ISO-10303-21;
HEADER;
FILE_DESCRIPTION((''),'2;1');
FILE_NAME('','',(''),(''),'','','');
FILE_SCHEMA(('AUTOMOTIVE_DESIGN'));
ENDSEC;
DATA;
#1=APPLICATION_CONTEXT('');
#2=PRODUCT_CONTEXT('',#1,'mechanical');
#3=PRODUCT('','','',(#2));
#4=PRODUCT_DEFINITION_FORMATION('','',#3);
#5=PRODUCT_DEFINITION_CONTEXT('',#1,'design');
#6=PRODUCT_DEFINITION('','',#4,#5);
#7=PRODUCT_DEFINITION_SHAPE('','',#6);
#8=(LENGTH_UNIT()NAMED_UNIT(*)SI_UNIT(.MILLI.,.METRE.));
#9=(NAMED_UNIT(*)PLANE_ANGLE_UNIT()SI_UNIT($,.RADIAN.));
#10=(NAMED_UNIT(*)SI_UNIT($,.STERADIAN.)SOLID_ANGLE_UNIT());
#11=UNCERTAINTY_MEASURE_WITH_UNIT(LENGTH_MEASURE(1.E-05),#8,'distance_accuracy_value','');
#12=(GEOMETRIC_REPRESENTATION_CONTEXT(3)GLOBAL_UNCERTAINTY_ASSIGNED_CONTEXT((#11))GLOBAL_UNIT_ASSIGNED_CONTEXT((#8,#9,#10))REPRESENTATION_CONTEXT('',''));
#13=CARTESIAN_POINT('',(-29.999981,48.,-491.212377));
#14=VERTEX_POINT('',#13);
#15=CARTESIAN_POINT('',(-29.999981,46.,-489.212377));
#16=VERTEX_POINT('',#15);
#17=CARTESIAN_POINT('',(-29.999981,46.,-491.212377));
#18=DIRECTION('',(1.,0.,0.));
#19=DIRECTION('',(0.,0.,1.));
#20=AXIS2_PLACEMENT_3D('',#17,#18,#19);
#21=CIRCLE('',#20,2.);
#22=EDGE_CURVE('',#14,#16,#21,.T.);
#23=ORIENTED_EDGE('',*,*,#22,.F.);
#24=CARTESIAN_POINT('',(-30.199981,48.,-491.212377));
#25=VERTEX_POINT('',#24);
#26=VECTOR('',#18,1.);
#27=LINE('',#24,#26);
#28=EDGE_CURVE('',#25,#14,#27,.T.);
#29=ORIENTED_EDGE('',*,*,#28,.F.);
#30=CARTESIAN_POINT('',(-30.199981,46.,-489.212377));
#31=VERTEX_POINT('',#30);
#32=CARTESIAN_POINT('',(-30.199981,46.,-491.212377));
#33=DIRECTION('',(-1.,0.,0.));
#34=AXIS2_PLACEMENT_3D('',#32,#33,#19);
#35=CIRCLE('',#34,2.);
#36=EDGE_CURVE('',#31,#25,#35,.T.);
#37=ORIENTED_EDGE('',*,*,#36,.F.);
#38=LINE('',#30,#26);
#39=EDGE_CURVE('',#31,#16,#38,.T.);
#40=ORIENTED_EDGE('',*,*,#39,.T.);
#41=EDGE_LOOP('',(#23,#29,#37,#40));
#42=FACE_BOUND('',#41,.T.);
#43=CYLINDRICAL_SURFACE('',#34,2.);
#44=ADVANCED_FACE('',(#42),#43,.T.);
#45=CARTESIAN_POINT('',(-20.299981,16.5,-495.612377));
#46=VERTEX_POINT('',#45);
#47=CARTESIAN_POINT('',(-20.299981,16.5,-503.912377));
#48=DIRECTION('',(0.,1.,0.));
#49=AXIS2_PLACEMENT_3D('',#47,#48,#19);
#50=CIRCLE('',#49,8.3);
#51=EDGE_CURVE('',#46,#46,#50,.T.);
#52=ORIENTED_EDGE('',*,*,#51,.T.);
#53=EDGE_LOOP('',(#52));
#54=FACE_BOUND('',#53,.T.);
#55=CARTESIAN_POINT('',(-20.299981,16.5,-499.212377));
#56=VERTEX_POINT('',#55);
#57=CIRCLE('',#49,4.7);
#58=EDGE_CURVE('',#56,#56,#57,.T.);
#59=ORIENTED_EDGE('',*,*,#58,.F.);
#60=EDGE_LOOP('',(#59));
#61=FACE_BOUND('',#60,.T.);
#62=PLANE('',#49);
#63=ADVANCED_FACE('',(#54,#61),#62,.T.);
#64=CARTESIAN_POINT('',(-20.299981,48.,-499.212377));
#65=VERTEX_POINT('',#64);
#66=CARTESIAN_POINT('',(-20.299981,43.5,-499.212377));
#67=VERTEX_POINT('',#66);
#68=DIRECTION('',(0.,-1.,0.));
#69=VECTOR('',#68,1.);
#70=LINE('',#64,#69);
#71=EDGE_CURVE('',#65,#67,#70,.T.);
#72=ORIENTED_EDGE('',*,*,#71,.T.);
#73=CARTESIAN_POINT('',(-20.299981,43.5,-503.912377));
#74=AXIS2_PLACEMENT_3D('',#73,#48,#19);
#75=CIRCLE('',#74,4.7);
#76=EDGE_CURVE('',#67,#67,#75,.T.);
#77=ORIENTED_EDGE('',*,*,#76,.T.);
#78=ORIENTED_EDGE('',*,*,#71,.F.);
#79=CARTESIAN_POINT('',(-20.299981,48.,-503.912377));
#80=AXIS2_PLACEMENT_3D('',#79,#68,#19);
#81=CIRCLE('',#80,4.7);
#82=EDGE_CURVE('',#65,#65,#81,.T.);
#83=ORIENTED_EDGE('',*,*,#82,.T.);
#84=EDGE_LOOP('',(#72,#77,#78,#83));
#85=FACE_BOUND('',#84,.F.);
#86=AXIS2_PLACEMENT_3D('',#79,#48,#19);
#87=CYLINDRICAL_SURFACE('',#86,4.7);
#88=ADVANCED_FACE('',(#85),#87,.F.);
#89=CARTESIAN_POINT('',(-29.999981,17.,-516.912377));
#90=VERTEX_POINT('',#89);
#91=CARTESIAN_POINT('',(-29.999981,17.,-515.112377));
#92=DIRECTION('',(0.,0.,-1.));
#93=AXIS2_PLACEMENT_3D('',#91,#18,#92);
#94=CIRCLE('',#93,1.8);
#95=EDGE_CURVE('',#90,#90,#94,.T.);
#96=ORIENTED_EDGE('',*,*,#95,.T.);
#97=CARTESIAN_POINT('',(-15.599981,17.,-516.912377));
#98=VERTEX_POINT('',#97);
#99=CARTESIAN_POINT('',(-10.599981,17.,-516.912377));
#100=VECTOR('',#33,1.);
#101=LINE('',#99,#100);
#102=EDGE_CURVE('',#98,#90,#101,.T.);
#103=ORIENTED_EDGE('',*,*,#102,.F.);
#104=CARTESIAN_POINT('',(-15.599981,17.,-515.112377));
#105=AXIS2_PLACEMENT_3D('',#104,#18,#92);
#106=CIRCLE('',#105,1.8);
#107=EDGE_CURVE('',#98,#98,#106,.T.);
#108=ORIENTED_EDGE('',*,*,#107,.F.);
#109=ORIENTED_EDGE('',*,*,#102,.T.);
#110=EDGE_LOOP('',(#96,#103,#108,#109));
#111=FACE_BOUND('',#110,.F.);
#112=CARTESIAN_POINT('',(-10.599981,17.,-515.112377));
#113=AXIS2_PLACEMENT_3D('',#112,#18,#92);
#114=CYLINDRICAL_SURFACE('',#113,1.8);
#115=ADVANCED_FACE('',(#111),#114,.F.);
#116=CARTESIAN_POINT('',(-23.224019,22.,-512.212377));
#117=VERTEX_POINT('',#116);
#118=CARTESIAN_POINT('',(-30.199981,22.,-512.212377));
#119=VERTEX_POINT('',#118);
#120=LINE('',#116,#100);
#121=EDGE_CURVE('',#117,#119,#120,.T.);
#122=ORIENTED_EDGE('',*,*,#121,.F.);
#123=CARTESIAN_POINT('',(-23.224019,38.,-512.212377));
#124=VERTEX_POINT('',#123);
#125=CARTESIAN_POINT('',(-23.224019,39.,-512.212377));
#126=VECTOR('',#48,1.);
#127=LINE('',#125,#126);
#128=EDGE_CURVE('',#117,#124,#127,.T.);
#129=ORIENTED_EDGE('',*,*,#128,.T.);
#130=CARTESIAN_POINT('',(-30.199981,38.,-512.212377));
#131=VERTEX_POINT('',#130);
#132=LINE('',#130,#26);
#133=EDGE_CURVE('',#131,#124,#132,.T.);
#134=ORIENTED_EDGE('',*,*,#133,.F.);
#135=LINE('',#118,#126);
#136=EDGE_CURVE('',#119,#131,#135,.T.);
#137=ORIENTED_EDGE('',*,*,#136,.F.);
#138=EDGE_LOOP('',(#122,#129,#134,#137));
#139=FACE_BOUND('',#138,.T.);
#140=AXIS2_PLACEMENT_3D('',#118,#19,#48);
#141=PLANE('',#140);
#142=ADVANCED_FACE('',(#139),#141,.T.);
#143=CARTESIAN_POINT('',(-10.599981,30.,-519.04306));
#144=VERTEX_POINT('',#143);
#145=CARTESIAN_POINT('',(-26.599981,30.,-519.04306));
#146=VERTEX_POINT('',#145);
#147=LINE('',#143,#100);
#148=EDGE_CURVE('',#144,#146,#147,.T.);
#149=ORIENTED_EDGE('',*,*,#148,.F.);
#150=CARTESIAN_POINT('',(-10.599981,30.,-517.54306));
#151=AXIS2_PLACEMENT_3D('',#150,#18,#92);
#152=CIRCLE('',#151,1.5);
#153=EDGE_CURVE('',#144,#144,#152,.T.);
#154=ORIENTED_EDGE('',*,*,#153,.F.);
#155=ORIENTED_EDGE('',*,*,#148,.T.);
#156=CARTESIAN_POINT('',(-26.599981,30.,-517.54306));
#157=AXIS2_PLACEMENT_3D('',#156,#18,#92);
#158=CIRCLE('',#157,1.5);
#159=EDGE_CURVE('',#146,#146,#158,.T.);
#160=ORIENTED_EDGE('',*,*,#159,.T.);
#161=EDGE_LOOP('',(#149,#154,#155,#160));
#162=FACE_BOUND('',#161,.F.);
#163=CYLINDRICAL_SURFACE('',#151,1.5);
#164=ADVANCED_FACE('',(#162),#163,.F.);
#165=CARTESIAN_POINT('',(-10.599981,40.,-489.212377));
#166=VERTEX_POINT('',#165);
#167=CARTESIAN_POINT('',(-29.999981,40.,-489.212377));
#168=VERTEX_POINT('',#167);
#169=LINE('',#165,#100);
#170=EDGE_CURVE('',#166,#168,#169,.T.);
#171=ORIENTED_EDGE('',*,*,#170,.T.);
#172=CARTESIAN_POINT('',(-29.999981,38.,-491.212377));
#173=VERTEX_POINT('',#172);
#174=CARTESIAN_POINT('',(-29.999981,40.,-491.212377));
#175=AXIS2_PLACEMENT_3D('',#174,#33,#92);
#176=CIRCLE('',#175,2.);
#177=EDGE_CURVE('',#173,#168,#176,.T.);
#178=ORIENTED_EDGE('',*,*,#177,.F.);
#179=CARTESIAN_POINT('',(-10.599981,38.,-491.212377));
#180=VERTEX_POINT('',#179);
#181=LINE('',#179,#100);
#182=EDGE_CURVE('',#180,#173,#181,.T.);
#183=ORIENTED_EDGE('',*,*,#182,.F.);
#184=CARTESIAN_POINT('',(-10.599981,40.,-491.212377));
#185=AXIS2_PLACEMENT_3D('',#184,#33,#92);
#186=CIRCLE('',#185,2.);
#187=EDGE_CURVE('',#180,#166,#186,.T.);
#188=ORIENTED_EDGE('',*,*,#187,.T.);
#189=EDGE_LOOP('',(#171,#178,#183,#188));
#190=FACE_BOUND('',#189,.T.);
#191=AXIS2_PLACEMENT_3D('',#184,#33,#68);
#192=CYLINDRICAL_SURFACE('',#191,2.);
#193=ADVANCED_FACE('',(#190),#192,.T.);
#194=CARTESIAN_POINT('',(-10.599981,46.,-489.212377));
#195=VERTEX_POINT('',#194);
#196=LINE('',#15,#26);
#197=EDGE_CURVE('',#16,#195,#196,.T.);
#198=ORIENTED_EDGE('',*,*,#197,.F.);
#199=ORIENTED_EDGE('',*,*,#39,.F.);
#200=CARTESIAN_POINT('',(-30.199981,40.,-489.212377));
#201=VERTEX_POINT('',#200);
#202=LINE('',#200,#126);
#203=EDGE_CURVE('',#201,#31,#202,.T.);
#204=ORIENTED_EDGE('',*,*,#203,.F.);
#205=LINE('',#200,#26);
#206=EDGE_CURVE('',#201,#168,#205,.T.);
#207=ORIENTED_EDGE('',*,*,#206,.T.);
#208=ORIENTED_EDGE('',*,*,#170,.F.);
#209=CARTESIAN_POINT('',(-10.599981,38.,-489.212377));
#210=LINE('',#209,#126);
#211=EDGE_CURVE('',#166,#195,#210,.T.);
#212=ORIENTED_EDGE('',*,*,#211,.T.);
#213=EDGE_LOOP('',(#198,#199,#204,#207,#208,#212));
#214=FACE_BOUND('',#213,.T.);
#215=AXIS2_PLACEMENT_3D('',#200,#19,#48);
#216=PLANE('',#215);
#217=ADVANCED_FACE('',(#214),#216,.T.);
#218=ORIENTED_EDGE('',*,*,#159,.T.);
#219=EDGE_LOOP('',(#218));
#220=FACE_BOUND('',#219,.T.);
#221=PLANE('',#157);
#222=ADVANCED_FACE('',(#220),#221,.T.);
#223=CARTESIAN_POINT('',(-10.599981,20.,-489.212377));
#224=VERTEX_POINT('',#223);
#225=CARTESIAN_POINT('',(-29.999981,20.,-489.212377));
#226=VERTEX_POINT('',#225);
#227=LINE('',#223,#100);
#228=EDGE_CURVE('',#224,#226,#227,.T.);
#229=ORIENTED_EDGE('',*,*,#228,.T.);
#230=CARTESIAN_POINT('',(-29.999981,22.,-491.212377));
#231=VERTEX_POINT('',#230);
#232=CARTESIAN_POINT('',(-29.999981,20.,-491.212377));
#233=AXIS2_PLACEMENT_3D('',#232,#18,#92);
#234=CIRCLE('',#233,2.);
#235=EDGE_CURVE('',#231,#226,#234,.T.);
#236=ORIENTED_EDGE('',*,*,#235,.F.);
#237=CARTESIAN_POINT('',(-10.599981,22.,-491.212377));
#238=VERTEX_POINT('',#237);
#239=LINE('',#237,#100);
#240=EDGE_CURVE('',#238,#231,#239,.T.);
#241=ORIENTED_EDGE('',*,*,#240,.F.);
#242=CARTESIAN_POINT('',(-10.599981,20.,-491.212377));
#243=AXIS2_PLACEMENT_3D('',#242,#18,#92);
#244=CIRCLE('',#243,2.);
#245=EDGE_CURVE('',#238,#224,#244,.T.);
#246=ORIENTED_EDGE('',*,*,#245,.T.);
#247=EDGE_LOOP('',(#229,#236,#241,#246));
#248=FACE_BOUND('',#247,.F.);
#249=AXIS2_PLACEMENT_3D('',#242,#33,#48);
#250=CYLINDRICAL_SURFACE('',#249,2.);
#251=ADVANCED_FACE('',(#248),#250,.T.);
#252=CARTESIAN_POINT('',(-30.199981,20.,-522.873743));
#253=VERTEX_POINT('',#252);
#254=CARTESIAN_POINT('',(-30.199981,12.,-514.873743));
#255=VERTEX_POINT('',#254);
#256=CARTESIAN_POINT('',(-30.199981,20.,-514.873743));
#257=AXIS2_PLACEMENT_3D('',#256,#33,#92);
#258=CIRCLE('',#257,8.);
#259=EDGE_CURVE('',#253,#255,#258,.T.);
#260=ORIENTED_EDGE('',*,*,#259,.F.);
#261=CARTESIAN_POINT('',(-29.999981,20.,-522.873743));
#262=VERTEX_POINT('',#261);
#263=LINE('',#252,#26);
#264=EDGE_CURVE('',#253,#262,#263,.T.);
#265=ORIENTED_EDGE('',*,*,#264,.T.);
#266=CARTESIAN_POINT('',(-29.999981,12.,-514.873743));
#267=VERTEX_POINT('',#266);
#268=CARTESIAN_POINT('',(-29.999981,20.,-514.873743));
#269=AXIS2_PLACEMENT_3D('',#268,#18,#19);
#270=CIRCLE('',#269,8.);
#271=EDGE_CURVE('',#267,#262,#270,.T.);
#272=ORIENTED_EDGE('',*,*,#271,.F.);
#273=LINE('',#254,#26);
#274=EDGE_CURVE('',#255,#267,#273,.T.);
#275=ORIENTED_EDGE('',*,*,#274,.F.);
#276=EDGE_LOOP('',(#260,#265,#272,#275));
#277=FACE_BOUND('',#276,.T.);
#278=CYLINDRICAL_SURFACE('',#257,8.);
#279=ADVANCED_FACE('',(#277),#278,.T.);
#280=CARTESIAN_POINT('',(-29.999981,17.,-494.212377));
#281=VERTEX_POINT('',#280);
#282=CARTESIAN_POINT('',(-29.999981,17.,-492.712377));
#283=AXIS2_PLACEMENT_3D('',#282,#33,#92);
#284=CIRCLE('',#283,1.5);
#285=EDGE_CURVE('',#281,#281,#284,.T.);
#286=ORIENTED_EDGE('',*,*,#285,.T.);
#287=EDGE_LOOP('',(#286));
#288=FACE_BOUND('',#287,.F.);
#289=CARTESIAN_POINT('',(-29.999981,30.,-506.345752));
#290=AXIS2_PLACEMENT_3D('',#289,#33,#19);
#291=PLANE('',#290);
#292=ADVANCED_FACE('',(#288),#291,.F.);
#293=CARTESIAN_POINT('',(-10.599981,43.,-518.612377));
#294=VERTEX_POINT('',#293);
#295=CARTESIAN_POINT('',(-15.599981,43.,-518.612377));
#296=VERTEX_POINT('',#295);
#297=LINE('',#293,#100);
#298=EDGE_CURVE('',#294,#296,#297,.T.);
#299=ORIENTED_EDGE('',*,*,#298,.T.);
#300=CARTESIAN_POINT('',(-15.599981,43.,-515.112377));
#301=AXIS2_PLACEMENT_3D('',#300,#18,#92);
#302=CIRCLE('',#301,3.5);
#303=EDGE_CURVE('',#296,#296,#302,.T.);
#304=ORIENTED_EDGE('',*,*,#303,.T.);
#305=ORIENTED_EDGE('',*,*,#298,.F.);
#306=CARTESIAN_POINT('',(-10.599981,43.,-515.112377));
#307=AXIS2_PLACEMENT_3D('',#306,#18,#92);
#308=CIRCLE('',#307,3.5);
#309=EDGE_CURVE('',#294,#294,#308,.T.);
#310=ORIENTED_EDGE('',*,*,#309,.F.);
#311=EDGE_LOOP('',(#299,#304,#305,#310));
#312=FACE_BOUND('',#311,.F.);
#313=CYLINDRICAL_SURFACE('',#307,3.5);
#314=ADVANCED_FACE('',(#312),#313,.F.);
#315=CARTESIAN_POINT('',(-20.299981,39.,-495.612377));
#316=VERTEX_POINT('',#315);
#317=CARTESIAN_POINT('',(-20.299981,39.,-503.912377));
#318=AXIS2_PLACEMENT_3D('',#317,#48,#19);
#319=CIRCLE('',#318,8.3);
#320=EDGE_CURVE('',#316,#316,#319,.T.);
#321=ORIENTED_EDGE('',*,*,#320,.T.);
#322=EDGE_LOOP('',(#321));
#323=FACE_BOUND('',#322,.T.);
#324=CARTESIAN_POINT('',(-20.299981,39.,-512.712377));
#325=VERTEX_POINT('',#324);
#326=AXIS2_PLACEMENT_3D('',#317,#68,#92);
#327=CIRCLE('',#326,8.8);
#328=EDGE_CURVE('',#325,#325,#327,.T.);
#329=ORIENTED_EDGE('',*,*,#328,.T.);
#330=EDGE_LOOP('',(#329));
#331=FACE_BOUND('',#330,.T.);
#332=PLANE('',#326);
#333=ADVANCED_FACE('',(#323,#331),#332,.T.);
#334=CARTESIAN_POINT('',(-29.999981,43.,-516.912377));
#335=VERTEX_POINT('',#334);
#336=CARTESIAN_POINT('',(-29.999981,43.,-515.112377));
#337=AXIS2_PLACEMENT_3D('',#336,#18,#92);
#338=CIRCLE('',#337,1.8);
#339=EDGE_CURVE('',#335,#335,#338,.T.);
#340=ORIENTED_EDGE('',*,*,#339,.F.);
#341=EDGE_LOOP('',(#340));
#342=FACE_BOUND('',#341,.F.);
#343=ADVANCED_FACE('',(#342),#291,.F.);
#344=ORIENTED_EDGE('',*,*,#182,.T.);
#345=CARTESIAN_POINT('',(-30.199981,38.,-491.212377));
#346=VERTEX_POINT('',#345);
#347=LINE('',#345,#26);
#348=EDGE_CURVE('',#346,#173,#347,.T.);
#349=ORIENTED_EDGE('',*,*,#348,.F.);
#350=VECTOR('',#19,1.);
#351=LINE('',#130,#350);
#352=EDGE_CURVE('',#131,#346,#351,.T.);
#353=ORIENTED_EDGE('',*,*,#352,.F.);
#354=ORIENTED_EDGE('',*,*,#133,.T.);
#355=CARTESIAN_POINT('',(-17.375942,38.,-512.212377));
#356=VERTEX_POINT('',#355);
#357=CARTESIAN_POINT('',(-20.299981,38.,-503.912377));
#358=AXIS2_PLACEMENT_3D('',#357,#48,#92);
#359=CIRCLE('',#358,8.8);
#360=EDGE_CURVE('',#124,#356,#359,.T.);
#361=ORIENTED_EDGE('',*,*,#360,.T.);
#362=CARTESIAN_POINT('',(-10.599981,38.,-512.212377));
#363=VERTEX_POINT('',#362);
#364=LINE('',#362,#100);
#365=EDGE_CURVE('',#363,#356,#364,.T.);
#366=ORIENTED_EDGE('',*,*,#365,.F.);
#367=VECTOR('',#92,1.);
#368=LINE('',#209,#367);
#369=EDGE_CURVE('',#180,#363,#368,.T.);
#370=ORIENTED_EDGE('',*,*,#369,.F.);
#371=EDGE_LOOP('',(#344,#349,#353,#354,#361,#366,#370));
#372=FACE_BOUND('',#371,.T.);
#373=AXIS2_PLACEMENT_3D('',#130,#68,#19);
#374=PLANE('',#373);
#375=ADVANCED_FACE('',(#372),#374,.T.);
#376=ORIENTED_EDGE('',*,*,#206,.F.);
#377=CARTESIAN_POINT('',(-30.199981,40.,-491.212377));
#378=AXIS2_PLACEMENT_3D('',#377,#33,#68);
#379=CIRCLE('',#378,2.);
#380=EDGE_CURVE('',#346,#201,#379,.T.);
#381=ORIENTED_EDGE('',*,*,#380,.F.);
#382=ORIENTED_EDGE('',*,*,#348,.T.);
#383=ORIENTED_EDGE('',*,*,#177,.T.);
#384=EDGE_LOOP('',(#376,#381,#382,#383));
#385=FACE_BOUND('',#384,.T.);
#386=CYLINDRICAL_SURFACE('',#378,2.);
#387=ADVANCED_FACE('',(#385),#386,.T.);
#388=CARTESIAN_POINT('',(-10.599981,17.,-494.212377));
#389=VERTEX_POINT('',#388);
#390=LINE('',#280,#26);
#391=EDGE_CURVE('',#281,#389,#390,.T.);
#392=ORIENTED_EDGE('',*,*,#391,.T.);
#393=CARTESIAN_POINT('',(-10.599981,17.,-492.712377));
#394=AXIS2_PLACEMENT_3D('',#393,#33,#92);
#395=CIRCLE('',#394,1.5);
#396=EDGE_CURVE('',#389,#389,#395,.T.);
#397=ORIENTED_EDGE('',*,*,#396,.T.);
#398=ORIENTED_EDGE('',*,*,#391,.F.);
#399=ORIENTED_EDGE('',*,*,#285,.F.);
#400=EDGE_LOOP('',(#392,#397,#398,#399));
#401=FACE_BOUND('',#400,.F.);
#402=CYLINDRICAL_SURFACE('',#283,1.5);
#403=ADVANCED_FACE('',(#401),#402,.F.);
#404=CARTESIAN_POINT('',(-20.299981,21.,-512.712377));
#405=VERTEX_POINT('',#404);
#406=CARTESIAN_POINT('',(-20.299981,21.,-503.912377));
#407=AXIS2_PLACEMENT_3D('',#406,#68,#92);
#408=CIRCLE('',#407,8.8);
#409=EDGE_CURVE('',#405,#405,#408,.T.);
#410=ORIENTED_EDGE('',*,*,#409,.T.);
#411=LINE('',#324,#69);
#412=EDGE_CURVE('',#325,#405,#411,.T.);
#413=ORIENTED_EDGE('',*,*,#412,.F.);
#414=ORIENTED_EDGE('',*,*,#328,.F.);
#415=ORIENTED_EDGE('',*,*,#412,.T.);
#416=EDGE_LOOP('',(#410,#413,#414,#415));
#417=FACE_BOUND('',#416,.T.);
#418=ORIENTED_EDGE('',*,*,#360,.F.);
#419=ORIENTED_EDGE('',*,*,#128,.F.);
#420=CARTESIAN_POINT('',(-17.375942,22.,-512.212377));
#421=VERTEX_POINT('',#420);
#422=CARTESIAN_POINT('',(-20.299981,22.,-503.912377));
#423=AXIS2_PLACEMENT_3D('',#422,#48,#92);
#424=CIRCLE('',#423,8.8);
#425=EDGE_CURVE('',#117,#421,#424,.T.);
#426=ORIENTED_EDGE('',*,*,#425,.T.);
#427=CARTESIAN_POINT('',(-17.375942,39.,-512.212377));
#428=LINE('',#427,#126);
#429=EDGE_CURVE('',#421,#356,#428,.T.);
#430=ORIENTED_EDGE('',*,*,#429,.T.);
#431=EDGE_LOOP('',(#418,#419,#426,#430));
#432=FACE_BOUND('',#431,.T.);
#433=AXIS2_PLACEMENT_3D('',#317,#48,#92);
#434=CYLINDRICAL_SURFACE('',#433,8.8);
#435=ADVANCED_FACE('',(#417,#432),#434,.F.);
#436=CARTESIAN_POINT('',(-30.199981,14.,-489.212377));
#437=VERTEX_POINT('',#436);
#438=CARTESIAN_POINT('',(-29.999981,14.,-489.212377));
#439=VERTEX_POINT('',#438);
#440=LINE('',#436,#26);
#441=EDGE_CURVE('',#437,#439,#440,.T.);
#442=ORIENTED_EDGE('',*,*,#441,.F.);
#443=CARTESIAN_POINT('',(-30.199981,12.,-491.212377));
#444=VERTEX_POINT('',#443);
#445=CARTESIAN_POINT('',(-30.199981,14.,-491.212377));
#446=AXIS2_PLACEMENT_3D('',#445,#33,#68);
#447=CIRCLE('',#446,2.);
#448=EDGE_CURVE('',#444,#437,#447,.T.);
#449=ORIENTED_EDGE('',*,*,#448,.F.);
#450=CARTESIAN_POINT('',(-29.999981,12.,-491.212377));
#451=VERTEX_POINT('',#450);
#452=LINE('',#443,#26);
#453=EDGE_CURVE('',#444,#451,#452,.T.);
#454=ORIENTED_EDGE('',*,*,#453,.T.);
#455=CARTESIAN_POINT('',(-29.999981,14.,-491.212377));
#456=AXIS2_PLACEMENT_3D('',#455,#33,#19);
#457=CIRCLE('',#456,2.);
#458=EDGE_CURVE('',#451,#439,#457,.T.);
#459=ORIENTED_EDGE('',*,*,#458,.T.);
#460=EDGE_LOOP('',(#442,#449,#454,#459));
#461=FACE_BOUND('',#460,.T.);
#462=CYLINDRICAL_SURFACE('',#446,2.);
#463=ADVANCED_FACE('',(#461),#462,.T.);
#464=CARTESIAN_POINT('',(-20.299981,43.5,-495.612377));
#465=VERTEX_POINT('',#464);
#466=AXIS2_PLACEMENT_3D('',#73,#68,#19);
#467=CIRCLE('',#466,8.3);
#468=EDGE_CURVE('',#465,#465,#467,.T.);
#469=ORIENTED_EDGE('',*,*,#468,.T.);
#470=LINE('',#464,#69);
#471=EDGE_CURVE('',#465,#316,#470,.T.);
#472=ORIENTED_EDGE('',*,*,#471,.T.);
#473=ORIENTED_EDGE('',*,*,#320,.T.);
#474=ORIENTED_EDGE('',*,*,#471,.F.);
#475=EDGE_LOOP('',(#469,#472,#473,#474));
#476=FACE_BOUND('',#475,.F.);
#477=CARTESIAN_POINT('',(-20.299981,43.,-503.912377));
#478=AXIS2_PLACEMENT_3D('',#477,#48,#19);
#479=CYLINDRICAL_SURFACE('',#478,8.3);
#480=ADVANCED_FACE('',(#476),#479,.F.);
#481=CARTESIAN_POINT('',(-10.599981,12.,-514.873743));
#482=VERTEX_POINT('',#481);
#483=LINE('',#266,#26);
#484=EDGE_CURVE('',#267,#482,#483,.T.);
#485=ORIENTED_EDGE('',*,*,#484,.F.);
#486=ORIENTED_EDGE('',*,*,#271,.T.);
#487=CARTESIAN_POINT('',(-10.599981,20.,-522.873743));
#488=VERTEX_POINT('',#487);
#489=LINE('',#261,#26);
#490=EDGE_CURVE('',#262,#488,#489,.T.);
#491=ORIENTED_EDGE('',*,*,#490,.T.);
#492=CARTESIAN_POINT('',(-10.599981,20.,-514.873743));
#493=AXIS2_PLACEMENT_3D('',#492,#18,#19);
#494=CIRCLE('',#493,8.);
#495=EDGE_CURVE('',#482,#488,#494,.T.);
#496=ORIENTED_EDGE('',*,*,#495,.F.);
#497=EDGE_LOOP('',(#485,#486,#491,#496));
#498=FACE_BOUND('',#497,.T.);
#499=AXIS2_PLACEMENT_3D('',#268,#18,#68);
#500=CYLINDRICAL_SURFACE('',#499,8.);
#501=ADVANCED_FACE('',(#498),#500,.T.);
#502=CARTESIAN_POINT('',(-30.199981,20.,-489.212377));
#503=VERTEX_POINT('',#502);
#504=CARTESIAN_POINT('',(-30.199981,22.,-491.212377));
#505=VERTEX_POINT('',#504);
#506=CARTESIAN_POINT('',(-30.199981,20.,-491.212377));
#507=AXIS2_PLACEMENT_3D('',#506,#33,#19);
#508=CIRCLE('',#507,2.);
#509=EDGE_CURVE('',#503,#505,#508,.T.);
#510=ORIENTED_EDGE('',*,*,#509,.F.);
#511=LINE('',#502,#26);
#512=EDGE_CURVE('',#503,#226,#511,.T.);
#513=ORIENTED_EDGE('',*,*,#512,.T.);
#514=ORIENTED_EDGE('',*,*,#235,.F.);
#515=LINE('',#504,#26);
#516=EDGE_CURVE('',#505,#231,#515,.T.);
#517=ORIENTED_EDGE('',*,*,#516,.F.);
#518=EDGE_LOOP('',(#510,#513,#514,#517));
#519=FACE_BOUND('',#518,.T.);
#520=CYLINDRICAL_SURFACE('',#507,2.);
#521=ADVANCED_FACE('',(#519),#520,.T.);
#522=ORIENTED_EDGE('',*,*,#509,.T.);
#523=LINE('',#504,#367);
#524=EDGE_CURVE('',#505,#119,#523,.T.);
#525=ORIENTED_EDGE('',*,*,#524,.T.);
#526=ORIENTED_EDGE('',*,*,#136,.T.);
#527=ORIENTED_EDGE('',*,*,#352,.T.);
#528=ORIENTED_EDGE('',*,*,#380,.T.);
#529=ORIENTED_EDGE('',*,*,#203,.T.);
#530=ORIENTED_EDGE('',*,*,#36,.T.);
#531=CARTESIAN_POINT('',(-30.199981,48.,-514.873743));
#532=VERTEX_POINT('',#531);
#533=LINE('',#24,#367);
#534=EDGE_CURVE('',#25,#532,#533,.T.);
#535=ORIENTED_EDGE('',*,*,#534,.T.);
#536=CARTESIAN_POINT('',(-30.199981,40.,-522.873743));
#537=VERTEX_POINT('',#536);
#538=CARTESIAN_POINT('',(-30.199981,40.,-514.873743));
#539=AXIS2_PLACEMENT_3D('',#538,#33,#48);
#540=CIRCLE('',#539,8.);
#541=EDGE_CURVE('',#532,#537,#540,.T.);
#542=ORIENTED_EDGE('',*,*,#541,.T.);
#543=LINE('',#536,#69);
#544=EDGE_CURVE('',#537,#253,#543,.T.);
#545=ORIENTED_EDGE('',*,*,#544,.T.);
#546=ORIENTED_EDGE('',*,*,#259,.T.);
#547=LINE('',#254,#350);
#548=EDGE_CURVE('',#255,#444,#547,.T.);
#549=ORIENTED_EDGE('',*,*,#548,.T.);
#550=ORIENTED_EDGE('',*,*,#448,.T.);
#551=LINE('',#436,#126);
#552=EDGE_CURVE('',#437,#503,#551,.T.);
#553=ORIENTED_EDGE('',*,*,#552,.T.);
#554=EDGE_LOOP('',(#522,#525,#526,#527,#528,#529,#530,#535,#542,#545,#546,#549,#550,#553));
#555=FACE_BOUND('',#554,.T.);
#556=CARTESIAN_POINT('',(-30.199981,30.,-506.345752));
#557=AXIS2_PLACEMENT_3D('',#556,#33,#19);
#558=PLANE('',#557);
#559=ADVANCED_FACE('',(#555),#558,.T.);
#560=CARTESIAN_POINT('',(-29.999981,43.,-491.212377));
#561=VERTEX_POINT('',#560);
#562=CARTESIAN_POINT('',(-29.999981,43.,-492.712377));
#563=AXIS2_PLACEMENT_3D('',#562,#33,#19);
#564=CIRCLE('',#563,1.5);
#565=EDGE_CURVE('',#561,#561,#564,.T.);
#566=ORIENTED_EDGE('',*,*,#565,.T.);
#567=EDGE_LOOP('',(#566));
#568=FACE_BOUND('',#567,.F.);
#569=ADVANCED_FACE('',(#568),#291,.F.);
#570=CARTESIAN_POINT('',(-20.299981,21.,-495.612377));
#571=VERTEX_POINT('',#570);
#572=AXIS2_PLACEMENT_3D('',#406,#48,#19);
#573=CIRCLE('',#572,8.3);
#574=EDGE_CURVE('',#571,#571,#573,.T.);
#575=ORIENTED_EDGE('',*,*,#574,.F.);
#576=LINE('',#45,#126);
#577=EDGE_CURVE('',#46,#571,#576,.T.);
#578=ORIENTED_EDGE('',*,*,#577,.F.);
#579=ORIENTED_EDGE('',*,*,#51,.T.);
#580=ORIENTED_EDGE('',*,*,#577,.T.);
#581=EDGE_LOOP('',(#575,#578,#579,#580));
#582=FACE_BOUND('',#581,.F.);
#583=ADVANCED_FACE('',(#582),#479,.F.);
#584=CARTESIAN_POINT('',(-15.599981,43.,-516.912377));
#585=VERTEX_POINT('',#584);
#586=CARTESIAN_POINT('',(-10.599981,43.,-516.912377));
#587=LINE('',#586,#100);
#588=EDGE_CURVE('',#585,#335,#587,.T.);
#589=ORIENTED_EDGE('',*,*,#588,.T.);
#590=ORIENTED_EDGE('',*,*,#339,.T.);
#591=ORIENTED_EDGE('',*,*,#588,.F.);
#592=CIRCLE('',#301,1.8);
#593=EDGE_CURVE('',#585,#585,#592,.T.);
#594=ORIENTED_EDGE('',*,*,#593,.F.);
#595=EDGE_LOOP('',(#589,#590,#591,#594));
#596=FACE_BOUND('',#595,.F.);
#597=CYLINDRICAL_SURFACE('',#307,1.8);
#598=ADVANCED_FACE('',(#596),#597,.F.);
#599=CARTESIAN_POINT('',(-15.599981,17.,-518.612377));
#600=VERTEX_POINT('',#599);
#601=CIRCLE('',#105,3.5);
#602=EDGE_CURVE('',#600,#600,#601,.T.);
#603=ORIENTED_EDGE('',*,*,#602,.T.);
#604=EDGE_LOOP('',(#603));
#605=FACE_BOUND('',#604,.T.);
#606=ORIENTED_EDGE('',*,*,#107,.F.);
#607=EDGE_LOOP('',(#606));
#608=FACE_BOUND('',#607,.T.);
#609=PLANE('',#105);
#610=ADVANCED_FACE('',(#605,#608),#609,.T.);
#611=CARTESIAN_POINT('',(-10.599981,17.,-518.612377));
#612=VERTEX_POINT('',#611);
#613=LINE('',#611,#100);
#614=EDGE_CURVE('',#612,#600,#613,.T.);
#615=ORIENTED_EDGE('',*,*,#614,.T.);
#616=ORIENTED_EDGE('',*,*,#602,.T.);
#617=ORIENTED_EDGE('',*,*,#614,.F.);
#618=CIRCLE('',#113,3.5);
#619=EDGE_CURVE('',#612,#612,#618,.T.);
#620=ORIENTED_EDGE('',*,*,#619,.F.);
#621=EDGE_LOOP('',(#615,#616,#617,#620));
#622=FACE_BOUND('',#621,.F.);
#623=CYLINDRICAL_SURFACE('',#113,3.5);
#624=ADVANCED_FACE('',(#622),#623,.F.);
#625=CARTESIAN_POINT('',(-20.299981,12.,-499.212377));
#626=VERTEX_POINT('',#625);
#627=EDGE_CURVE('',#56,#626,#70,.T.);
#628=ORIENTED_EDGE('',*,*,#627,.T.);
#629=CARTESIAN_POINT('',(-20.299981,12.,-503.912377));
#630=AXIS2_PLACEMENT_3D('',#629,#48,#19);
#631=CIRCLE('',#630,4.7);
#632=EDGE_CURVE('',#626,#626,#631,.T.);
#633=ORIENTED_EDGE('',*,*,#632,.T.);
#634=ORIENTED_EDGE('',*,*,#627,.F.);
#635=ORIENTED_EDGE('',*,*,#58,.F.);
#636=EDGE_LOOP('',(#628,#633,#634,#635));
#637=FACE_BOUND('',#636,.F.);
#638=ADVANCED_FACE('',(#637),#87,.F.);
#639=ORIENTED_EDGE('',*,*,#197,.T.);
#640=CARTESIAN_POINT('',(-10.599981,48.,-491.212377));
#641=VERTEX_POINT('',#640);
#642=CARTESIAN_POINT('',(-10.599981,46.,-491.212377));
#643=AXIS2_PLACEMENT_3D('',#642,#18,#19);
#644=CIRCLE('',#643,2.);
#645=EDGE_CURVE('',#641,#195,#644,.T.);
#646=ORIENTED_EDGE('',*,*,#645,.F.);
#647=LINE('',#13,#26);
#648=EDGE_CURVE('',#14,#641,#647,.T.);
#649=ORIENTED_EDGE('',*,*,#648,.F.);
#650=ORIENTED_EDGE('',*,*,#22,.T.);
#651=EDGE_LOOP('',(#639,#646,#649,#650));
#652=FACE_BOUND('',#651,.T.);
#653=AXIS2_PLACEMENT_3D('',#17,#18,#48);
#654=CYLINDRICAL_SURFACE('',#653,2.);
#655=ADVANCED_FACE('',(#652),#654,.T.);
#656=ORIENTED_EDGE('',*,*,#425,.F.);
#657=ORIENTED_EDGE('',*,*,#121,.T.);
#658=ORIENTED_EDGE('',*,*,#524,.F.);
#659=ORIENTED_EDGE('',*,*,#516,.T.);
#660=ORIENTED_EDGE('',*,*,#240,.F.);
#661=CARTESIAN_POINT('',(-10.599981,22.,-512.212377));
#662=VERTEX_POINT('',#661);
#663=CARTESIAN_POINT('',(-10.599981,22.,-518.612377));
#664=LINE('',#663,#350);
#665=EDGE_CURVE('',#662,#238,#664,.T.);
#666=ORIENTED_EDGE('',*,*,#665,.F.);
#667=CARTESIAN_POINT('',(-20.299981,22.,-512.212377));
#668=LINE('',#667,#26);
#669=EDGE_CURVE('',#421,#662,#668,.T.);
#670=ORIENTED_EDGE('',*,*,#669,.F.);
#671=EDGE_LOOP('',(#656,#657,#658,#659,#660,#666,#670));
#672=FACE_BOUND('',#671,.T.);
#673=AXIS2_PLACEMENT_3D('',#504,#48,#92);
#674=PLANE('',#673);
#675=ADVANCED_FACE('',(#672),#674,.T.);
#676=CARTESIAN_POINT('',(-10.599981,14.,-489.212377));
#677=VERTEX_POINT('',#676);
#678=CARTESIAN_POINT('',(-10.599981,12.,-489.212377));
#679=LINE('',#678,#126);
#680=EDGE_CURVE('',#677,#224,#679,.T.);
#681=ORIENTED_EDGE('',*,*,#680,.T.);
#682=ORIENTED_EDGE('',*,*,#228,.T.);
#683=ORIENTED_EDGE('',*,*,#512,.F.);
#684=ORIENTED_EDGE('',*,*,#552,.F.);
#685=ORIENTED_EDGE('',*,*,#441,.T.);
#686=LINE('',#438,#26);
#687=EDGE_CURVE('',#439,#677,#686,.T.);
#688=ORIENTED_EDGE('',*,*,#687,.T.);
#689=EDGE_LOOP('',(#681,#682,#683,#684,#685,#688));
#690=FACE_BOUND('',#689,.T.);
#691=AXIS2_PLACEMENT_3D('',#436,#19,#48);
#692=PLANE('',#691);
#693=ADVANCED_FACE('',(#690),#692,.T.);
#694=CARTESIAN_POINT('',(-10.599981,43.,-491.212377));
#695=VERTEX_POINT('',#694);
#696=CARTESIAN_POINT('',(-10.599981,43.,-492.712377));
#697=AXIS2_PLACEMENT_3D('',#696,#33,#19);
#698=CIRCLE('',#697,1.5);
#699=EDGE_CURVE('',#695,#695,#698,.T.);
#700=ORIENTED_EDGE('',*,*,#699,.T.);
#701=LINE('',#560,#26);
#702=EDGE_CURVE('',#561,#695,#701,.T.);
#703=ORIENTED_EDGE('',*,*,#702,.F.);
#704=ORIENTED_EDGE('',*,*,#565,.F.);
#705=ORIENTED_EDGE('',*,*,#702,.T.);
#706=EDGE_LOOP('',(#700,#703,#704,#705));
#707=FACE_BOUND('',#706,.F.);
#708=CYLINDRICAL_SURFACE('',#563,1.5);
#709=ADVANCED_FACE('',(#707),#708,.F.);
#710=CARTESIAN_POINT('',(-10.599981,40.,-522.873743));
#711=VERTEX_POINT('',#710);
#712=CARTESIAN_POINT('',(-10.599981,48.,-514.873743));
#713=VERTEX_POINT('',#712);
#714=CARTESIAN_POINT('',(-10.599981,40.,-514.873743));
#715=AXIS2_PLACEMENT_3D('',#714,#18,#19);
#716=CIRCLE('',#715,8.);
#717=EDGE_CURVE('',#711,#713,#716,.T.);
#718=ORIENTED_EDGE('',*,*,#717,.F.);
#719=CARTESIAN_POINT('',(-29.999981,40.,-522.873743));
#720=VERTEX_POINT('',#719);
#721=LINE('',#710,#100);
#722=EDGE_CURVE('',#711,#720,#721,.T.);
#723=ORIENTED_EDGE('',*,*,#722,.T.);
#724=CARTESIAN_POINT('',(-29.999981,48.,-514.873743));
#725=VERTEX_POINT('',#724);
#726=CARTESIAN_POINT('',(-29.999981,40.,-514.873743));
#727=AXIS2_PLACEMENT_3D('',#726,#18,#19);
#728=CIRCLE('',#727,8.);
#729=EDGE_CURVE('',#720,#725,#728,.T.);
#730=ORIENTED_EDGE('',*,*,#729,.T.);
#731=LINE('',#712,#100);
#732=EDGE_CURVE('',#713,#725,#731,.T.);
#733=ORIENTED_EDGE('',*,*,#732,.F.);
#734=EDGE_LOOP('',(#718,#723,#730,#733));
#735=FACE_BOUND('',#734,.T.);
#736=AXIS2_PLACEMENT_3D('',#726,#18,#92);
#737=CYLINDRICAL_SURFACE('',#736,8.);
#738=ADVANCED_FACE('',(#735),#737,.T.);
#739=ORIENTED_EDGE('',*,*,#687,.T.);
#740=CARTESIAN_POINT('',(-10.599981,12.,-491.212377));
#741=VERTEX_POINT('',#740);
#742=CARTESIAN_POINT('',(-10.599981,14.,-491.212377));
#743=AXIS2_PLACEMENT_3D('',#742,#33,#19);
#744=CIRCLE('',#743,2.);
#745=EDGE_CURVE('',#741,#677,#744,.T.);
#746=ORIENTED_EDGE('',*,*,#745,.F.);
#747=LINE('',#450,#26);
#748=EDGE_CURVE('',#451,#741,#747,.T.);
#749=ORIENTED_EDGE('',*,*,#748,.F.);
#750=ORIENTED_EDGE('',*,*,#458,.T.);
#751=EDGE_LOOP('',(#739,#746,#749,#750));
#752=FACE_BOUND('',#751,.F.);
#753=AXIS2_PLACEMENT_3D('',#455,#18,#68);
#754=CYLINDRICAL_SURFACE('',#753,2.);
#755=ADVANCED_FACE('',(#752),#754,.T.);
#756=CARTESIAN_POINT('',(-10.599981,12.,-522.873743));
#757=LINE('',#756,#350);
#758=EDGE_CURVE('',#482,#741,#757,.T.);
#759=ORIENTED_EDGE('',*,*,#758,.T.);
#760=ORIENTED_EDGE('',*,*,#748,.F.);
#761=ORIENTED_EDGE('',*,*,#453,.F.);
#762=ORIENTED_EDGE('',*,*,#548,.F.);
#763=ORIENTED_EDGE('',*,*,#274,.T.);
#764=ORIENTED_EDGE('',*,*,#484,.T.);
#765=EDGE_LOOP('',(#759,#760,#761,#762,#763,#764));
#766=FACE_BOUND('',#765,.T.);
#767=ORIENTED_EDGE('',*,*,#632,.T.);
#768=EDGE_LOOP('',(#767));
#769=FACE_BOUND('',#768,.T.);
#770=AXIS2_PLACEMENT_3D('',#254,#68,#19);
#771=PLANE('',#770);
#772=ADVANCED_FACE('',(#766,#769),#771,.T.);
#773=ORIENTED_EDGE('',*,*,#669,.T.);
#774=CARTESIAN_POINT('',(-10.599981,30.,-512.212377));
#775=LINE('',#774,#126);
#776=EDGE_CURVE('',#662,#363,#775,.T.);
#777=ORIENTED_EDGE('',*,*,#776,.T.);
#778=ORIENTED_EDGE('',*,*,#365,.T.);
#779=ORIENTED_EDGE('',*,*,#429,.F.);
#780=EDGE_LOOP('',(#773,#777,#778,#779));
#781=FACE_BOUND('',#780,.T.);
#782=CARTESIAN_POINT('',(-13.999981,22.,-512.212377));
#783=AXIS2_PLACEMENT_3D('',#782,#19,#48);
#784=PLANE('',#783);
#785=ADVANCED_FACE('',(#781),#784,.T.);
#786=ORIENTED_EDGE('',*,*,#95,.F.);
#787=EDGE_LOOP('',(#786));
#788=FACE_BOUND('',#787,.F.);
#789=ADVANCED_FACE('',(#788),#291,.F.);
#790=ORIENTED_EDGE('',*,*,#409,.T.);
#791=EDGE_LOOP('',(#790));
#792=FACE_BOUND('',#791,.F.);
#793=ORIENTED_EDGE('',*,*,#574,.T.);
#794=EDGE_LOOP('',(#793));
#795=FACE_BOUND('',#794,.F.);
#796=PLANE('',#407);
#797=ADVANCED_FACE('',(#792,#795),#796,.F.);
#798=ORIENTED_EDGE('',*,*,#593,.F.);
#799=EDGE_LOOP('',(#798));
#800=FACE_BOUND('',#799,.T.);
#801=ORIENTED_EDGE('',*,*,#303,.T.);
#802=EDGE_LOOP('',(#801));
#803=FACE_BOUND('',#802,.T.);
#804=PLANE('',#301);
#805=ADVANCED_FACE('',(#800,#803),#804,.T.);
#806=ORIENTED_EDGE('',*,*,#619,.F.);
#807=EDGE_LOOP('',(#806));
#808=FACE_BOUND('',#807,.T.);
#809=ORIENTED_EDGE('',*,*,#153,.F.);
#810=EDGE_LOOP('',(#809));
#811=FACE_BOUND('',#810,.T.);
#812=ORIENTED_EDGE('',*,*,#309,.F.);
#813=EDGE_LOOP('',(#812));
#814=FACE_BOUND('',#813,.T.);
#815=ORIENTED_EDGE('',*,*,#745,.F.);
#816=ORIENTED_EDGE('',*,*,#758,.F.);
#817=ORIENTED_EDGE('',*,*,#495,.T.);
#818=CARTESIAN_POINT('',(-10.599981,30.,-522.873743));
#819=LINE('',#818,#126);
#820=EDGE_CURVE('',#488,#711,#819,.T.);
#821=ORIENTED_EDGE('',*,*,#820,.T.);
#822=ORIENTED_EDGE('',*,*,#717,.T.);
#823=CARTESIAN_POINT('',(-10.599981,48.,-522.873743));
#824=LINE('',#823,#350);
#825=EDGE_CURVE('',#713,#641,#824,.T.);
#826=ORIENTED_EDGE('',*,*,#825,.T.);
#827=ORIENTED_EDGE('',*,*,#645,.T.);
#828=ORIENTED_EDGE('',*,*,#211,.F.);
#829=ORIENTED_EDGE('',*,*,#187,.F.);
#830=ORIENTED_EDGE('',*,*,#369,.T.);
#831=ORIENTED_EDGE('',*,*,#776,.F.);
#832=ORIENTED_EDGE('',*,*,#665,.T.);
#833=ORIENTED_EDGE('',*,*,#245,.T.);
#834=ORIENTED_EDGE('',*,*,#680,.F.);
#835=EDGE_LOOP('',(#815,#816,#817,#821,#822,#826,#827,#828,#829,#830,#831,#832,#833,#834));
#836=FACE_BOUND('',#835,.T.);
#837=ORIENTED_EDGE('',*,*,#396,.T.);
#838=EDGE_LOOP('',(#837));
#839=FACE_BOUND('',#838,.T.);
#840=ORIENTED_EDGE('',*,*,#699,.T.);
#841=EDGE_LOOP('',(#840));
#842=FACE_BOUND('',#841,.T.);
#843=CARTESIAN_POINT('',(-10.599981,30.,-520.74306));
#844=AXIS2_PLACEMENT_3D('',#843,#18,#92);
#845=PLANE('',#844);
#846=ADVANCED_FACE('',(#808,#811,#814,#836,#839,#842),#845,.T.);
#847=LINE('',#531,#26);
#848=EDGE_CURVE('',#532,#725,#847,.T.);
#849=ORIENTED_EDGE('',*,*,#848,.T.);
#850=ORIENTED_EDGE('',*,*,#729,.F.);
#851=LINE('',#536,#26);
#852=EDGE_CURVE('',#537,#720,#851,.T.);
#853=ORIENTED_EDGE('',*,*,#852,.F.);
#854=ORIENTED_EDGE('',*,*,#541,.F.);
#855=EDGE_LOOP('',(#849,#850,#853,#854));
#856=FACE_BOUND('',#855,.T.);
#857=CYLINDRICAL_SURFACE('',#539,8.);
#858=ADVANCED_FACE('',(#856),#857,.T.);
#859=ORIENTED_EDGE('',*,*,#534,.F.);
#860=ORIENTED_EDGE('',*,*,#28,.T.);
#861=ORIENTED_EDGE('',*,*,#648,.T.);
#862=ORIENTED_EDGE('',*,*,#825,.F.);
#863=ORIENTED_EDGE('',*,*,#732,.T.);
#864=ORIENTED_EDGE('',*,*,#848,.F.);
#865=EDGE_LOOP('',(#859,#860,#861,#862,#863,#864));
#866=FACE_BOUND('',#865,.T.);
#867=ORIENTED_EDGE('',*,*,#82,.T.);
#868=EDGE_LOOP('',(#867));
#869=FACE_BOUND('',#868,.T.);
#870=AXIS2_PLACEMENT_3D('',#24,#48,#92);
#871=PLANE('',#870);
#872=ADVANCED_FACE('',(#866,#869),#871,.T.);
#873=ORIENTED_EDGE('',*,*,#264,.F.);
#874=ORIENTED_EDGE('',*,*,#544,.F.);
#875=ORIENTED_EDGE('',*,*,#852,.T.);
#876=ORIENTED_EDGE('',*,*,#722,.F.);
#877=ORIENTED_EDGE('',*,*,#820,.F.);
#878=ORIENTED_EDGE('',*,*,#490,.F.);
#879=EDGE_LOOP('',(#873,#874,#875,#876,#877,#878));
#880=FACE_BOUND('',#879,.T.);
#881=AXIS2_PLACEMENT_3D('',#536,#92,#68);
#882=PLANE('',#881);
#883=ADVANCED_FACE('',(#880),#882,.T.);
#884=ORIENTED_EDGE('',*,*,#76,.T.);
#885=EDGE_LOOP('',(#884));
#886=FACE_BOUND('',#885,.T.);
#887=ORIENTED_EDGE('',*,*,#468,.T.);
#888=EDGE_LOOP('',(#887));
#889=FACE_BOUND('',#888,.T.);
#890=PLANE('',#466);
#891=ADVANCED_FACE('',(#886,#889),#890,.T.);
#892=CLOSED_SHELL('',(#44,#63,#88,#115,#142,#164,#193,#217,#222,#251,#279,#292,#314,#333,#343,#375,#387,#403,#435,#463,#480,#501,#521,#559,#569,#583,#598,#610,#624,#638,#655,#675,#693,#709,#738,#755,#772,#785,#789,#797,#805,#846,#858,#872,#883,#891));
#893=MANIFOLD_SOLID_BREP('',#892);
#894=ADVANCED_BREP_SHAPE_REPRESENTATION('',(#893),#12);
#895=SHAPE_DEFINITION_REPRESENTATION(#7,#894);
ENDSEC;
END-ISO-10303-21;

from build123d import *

# Parameters (mm, degrees)
SZKIC1_R                         = 3
DODANIE_WYCI_GNI_CIE1_DEPTH      = 60
WYTNIJ_WYCI_GNI_CIE1_START       = 43
SZKIC1_4_R                       = 8.3
WYTNIJ_WYCI_GNI_CIE1_DEPTH       = 26
WYTNIJ_WYCI_GNI_CIE2_START       = 38
WYTNIJ_WYCI_GNI_CIE2_DEPTH       = 16
WYTNIJ_WYCI_GNI_CIE3_START       = -12
WYTNIJ_WYCI_GNI_CIE3_DEPTH       = 12
WYTNIJ_WYCI_GNI_CIE4_DEPTH       = 12
WYTNIJ_WYCI_GNI_CIE5_START       = -26
WYTNIJ_WYCI_GNI_CIE5_DEPTH       = 16
SZKIC7_W                         = 1.4
SZKIC7_H                         = 16
WYTNIJ_WYCI_GNI_CIE6_DEPTH       = 527.501957094
SZKIC8_W                         = 5
SZKIC8_H                         = 10
DODANIE_WYCI_GNI_CIE2_DEPTH      = 16
DODANIE_WYCI_GNI_CIE3_DEPTH      = 10
DODANIE_WYCI_GNI_CIE4_DEPTH      = 10
SZKIC11_W                        = 6.4
SZKIC11_H                        = 16
DODANIE_WYCI_GNI_CIE5_DEPTH      = 11
DODANIE_WYCI_GNI_CIE6_DEPTH      = 10
DODANIE_WYCI_GNI_CIE7_START      = -10
DODANIE_WYCI_GNI_CIE7_DEPTH      = 10
SZKIC15_W                        = 6.4
SZKIC15_H                        = 16
DODANIE_WYCI_GNI_CIE8_DEPTH      = 3.4
SZKIC8_3_R                       = 1.5
WYTNIJ_WYCI_GNI_CIE7_DEPTH       = 527.66242587
SZKIC16_R                        = 4.7
WYTNIJ_WYCI_GNI_CIE8_DEPTH       = 526.928654544
WYTNIJ_WYCI_GNI_CIE9_START       = -0.5
SZKIC17_R                        = 8.3
WYTNIJ_WYCI_GNI_CIE9_DEPTH       = 0.5
SZKIC18_R                        = 8.3
WYTNIJ_WYCI_GNI_CIE10_DEPTH      = 0.5
SZKIC19_W                        = 28.661365339
SZKIC19_H                        = 12
WYTNIJ_WYCI_GNI_CIE11_DEPTH      = 527.501957094
SZKIC20_W                        = 4.261365339
SZKIC20_H                        = 36
DODANIE_WYCI_GNI_CIE9_DEPTH      = 14.4
SZKIC21_R                        = 1.8
SZKIC21_R_2                      = 1.5
WYTNIJ_WYCI_GNI_CIE12_DEPTH      = 526.430595629
SZKIC21_3_R                      = 1.5
WYTNIJ_WYCI_GNI_CIE13_DEPTH      = 16
ZAOKR_GLENIE1_R                  = 8
ZAOKR_GLENIE2_R                  = 2
SZKIC22_R                        = 3.5
WYTNIJ_WYCI_GNI_CIE14_DEPTH      = 5
WYTNIJ_WYCI_GNI_CIE15_DEPTH      = 17
WYTNIJ_WYCI_GNI_CIE15_DEPTH_BACK = 1
SZKIC23_R                        = 8.8
DODANIE_WYCI_GNI_CIE10_START     = 0.2
DODANIE_WYCI_GNI_CIE10_DEPTH     = 0.2


with BuildPart() as part:
    # Szkic1 → Dodanie-wyciągnięcie1 (new body)
    with BuildSketch(Plane(origin=(0, 0, 0), x_dir=(1, 0, 0), z_dir=(0, 1, 0))):
        with BuildLine():
            Line((-24.999980785, 522.873742718), (-29.999980785, 522.873742718))
            Line((-29.999980785, 522.873742718), (-29.999980785, 494.212377379))
            Line((-29.999980785, 494.212377379), (-20.299980785, 494.212377379))
            ThreePointArc((-20.299980785, 494.212377379), (-10.599980785, 503.912377379), (-20.299980785, 513.612377379))
            Line((-20.299980785, 513.612377379), (-24.999980785, 513.612377379))
            Line((-24.999980785, 513.612377379), (-24.999980785, 522.873742718))
        make_face()
        with Locations(Location((-20.299980785, 503.912377379, 0), (0, 0, 270))):
            Circle(SZKIC1_R, mode=Mode.SUBTRACT)
    extrude(amount=DODANIE_WYCI_GNI_CIE1_DEPTH)

    # Szkic1<4> → Wytnij-wyciągnięcie1 (cut)
    with BuildSketch(Plane(origin=(0, 0, 0), x_dir=(1, 0, 0), z_dir=(0, 1, 0)).offset(WYTNIJ_WYCI_GNI_CIE1_START)):
        with Locations(Location((-20.299980785, 503.912377379, 0), (0, 0, 270))):
            Circle(SZKIC1_4_R)
    extrude(amount=-WYTNIJ_WYCI_GNI_CIE1_DEPTH, mode=Mode.SUBTRACT)

    # Szkic1<6> → Wytnij-wyciągnięcie2 (cut)
    with BuildSketch(Plane(origin=(0, 0, 0), x_dir=(1, 0, 0), z_dir=(0, 1, 0)).offset(WYTNIJ_WYCI_GNI_CIE2_START)):
        with BuildLine():
            Line((-20.299980785, 512.212377379), (-29.999980785, 512.212377379))
            Line((-29.999980785, 512.212377379), (-29.999980785, 495.612377379))
            Line((-29.999980785, 495.612377379), (-20.299980785, 495.612377379))
            ThreePointArc((-20.299980785, 495.612377379), (-28.599980785, 503.912377379), (-20.299980785, 512.212377379))
        make_face()
    extrude(amount=-WYTNIJ_WYCI_GNI_CIE2_DEPTH, mode=Mode.SUBTRACT)

    # Szkic3 → Wytnij-wyciągnięcie3 (cut)
    with BuildSketch(Plane(origin=(0, 60, 0), x_dir=(1, 0, 0), z_dir=(0, 1, 0)).offset(WYTNIJ_WYCI_GNI_CIE3_START)):
        with BuildLine():
            Line((-24.999980785, 513.612377379), (-24.999980785, 494.212377379))
            Line((-24.999980785, 494.212377379), (-20.299980785, 494.212377379))
            ThreePointArc((-20.299980785, 494.212377379), (-10.599980785, 503.912377379), (-20.299980785, 513.612377379))
            Line((-20.299980785, 513.612377379), (-24.999980785, 513.612377379))
        make_face()
    extrude(amount=WYTNIJ_WYCI_GNI_CIE3_DEPTH, mode=Mode.SUBTRACT)

    # Szkic5 → Wytnij-wyciągnięcie4 (cut)
    with BuildSketch(Plane.XZ):
        with BuildLine():
            Line((-24.999980785, -513.612377379), (-20.299980785, -513.612377379))
            ThreePointArc((-20.299980785, -513.612377379), (-10.599980785, -503.912377379), (-20.299980785, -494.212377379))
            Line((-20.299980785, -494.212377379), (-24.999980785, -494.212377379))
            Line((-24.999980785, -494.212377379), (-24.999980785, -513.612377379))
        make_face()
    extrude(amount=-WYTNIJ_WYCI_GNI_CIE4_DEPTH, mode=Mode.SUBTRACT)

    # Szkic6 → Wytnij-wyciągnięcie5 (cut)
    with BuildSketch(Plane(origin=(0, 48, 0), x_dir=(1, 0, 0), z_dir=(0, 1, 0)).offset(WYTNIJ_WYCI_GNI_CIE5_START)):
        with BuildLine():
            Line((-20.299980785, 513.612377379), (-24.999980785, 513.612377379))
            Line((-24.999980785, 513.612377379), (-24.999980785, 494.212377379))
            Line((-24.999980785, 494.212377379), (-20.299980785, 494.212377379))
            ThreePointArc((-20.299980785, 494.212377379), (-10.599980785, 503.912377379), (-20.299980785, 513.612377379))
        make_face()
    extrude(amount=WYTNIJ_WYCI_GNI_CIE5_DEPTH, mode=Mode.SUBTRACT)

    # Szkic7 → Wytnij-wyciągnięcie6 (cut, through all)
    with BuildSketch(Plane(origin=(-24.999980785, 0, 0), x_dir=(0, 0, -1), z_dir=(1, 0, 0))):
        with Locations((494.912377379, 30)):
            Rectangle(SZKIC7_W, SZKIC7_H)
    extrude(amount=-WYTNIJ_WYCI_GNI_CIE6_DEPTH, mode=Mode.SUBTRACT)

    # Szkic8 → Dodanie-wyciągnięcie2 (add)
    with BuildSketch(Plane.ZY.offset(29.999980785)):
        with Locations((-491.712377379, 43)):
            Rectangle(SZKIC8_W, SZKIC8_H)
        with Locations((-516.112377379, 43)):
            Rectangle(SZKIC8_W, SZKIC8_H)
        with Locations((-516.112377379, 17)):
            Rectangle(SZKIC8_W, SZKIC8_H)
        with Locations((-491.712377379, 17)):
            Rectangle(SZKIC8_W, SZKIC8_H)
    extrude(amount=-DODANIE_WYCI_GNI_CIE2_DEPTH)

    # Szkic9 → Dodanie-wyciągnięcie3 (add)
    with BuildSketch(Plane.XZ.offset(-12)):
        with BuildLine():
            Line((-13.999980785, -513.612377379), (-20.299980785, -513.612377379))
            ThreePointArc((-20.299980785, -513.612377379), (-16.942426987, -513.012752783), (-13.999980785, -511.288012944))
            Line((-13.999980785, -511.288012944), (-13.999980785, -513.612377379))
        make_face()
        with BuildLine():
            Line((-13.999980785, -494.212377379), (-20.299980785, -494.212377379))
            ThreePointArc((-20.299980785, -494.212377379), (-16.942426987, -494.812001974), (-13.999980785, -496.536741813))
            Line((-13.999980785, -496.536741813), (-13.999980785, -494.212377379))
        make_face()
    extrude(amount=-DODANIE_WYCI_GNI_CIE3_DEPTH)

    # Szkic10 → Dodanie-wyciągnięcie4 (add)
    with BuildSketch(Plane.XZ.offset(-38)):
        with BuildLine():
            Line((-13.999980785, -513.612377379), (-20.299980785, -513.612377379))
            ThreePointArc((-20.299980785, -513.612377379), (-16.942426987, -513.012752783), (-13.999980785, -511.288012944))
            Line((-13.999980785, -511.288012944), (-13.999980785, -513.612377379))
        make_face()
        with BuildLine():
            Line((-13.999980785, -494.212377379), (-13.999980785, -496.536741813))
            ThreePointArc((-13.999980785, -496.536741813), (-16.942426987, -494.812001974), (-20.299980785, -494.212377379))
            Line((-20.299980785, -494.212377379), (-13.999980785, -494.212377379))
        make_face()
    extrude(amount=-DODANIE_WYCI_GNI_CIE4_DEPTH)

    # Szkic11 → Dodanie-wyciągnięcie5 (add)
    with BuildSketch(Plane(origin=(-24.999980785, 0, 0), x_dir=(0, 0, -1), z_dir=(1, 0, 0))):
        with Locations((515.412377379, 30)):
            Rectangle(SZKIC11_W, SZKIC11_H)
    extrude(amount=DODANIE_WYCI_GNI_CIE5_DEPTH)

    # Szkic12 → Dodanie-wyciągnięcie6 (add)
    with BuildSketch(Plane.XZ.offset(-12)):
        with BuildLine():
            ThreePointArc((-13.999980785, -496.536741813), (-11.490894566, -499.851589278), (-10.599980785, -503.912377379))
            Line((-10.599980785, -503.912377379), (-10.599980785, -489.212377379))
            Line((-10.599980785, -489.212377379), (-13.999980785, -489.212377379))
            Line((-13.999980785, -489.212377379), (-13.999980785, -496.536741813))
        make_face()
        with BuildLine():
            Line((-13.999980785, -511.288012944), (-13.999980785, -518.612377379))
            Line((-13.999980785, -518.612377379), (-10.599980785, -518.612377379))
            Line((-10.599980785, -518.612377379), (-10.599980785, -503.912377379))
            ThreePointArc((-10.599980785, -503.912377379), (-11.490894566, -507.973165479), (-13.999980785, -511.288012944))
        make_face()
    extrude(amount=-DODANIE_WYCI_GNI_CIE6_DEPTH)

    # Szkic13 → Dodanie-wyciągnięcie7 (add)
    with BuildSketch(Plane(origin=(0, 48, 0), x_dir=(1, 0, 0), z_dir=(0, 1, 0)).offset(DODANIE_WYCI_GNI_CIE7_START)):
        with BuildLine():
            ThreePointArc((-13.999980785, 511.288012944), (-11.490894566, 507.973165479), (-10.599980785, 503.912377379))
            Line((-10.599980785, 503.912377379), (-10.599980785, 518.612377379))
            Line((-10.599980785, 518.612377379), (-13.999980785, 518.612377379))
            Line((-13.999980785, 518.612377379), (-13.999980785, 511.288012944))
        make_face()
        with BuildLine():
            Line((-13.999980785, 489.212377379), (-10.599980785, 489.212377379))
            Line((-10.599980785, 489.212377379), (-10.599980785, 503.912377379))
            ThreePointArc((-10.599980785, 503.912377379), (-11.490894566, 499.851589278), (-13.999980785, 496.536741813))
            Line((-13.999980785, 496.536741813), (-13.999980785, 489.212377379))
        make_face()
    extrude(amount=DODANIE_WYCI_GNI_CIE7_DEPTH)

    # Szkic15 → Dodanie-wyciągnięcie8 (add)
    with BuildSketch(Plane(origin=(-13.999980785, 0, 0), x_dir=(0, 0, -1), z_dir=(1, 0, 0))):
        with Locations((515.412377379, 30)):
            Rectangle(SZKIC15_W, SZKIC15_H)
    extrude(amount=DODANIE_WYCI_GNI_CIE8_DEPTH)

    # Szkic8<3> → Wytnij-wyciągnięcie7 (cut, through all)
    with BuildSketch(Plane.ZY.offset(29.999980785)):
        with Locations((-492.712377379, 43)):
            Circle(SZKIC8_3_R)
        with Locations(Location((-515.112377379, 43, 0), (0, 0, 180))):
            Circle(SZKIC8_3_R)
        with Locations((-515.112377379, 17)):
            Circle(SZKIC8_3_R)
        with Locations(Location((-492.712377379, 17, 0), (0, 0, 180))):
            Circle(SZKIC8_3_R)
    extrude(amount=-WYTNIJ_WYCI_GNI_CIE7_DEPTH, mode=Mode.SUBTRACT)

    # Szkic16 → Wytnij-wyciągnięcie8 (cut, through all)
    with BuildSketch(Plane(origin=(0, 48, 0), x_dir=(1, 0, 0), z_dir=(0, 1, 0))):
        with Locations(Location((-20.299980785, 503.912377379, 0), (0, 0, 270))):
            Circle(SZKIC16_R)
    extrude(amount=-WYTNIJ_WYCI_GNI_CIE8_DEPTH, mode=Mode.SUBTRACT)

    # Szkic17 → Wytnij-wyciągnięcie9 (cut)
    with BuildSketch(Plane.XZ.offset(-43).offset(WYTNIJ_WYCI_GNI_CIE9_START)):
        with Locations(Location((-20.299980785, -503.912377379, 0), (0, 0, 90))):
            Circle(SZKIC17_R)
    extrude(amount=WYTNIJ_WYCI_GNI_CIE9_DEPTH, mode=Mode.SUBTRACT)

    # Szkic18 → Wytnij-wyciągnięcie10 (cut)
    with BuildSketch(Plane(origin=(0, 17, 0), x_dir=(1, 0, 0), z_dir=(0, 1, 0))):
        with Locations(Location((-20.299980785, 503.912377379, 0), (0, 0, 270))):
            Circle(SZKIC18_R)
    extrude(amount=-WYTNIJ_WYCI_GNI_CIE10_DEPTH, mode=Mode.SUBTRACT)

    # Szkic19 → Wytnij-wyciągnięcie11 (cut, through all)
    with BuildSketch(Plane(origin=(-24.999980785, 0, 0), x_dir=(0, 0, -1), z_dir=(1, 0, 0))):
        with Locations((508.543060049, 54)):
            Rectangle(SZKIC19_W, SZKIC19_H)
        with Locations((508.543060049, 6)):
            Rectangle(SZKIC19_W, SZKIC19_H)
    extrude(amount=-WYTNIJ_WYCI_GNI_CIE11_DEPTH, mode=Mode.SUBTRACT)

    # Szkic20 → Dodanie-wyciągnięcie9 (add)
    with BuildSketch(Plane(origin=(-24.999980785, 0, 0), x_dir=(0, 0, -1), z_dir=(1, 0, 0))):
        with Locations((520.743060048, 30)):
            Rectangle(SZKIC20_W, SZKIC20_H)
    extrude(amount=DODANIE_WYCI_GNI_CIE9_DEPTH)

    # Szkic21 → Wytnij-wyciągnięcie12 (cut, through all)
    # profile 1 of 2: a face of its own
    with BuildSketch(Plane(origin=(-10.599980785, 0, 0), x_dir=(0, 0, -1), z_dir=(1, 0, 0))):
        with Locations((515.112377379, 43)):
            Circle(SZKIC21_R)
        with Locations((515.112377379, 43)):
            Circle(SZKIC21_R_2, mode=Mode.SUBTRACT)
    # profile 2 of 2: a face of its own
    with BuildSketch(Plane(origin=(-10.599980785, 0, 0), x_dir=(0, 0, -1), z_dir=(1, 0, 0))):
        with Locations((515.112377379, 17)):
            Circle(SZKIC21_R)
        with Locations((515.112377379, 17)):
            Circle(SZKIC21_R_2, mode=Mode.SUBTRACT)
    extrude(amount=-WYTNIJ_WYCI_GNI_CIE12_DEPTH, mode=Mode.SUBTRACT)

    # Szkic21<3> → Wytnij-wyciągnięcie13 (cut)
    with BuildSketch(Plane(origin=(-10.599980785, 0, 0), x_dir=(0, 0, -1), z_dir=(1, 0, 0))):
        with Locations((517.543060048, 30)):
            Circle(SZKIC21_3_R)
    extrude(amount=-WYTNIJ_WYCI_GNI_CIE13_DEPTH, mode=Mode.SUBTRACT)

    # Zaokrąglenie1
    zaokr_glenie1_edges = [part.edges().sort_by_distance(p)[0] for p in [
        (-20.299980785, 48, -522.873742718),
        (-20.299980785, 12, -522.873742718),
    ]]
    fillet(zaokr_glenie1_edges, radius=ZAOKR_GLENIE1_R)

    # Zaokrąglenie2
    zaokr_glenie2_edges = [part.edges().sort_by_distance(p)[0] for p in [
        (-20.299980785, 48, -489.212377379),
        (-20.299980785, 38, -489.212377379),
        (-20.299980785, 22, -489.212377379),
        (-20.299980785, 12, -489.212377379),
    ]]
    fillet(zaokr_glenie2_edges, radius=ZAOKR_GLENIE2_R)

    # Szkic22 → Wytnij-wyciągnięcie14 (cut)
    with BuildSketch(Plane(origin=(-10.599980785, 0, 0), x_dir=(0, 0, -1), z_dir=(1, 0, 0))):
        with Locations((515.112377379, 43)):
            Circle(SZKIC22_R)
        with Locations((515.112377379, 17)):
            Circle(SZKIC22_R)
    extrude(amount=-WYTNIJ_WYCI_GNI_CIE14_DEPTH, mode=Mode.SUBTRACT)

    # Szkic23 → Wytnij-wyciągnięcie15 (cut, two sides: drawn at the far end of the back side and taken through both)
    with BuildSketch(Plane.XZ.offset(-38).offset(-WYTNIJ_WYCI_GNI_CIE15_DEPTH_BACK)):
        with Locations(Location((-20.299980785, -503.912377379, 0), (0, 0, 270))):
            Circle(SZKIC23_R)
    extrude(amount=WYTNIJ_WYCI_GNI_CIE15_DEPTH + WYTNIJ_WYCI_GNI_CIE15_DEPTH_BACK, mode=Mode.SUBTRACT)

    # Szkic25 → Dodanie-wyciągnięcie10 (add)
    with BuildSketch(Plane.ZY.offset(29.999980785).offset(DODANIE_WYCI_GNI_CIE10_START)):
        with BuildLine():
            Line((-489.212377379, 40), (-489.212377379, 46))
            ThreePointArc((-489.212377379, 46), (-489.798163816, 47.414213562), (-491.212377379, 48))
            Line((-491.212377379, 48), (-514.873742718, 48))
            ThreePointArc((-514.873742718, 48), (-520.530596967, 45.656854249), (-522.873742718, 40))
            Line((-522.873742718, 40), (-522.873742718, 20))
            ThreePointArc((-522.873742718, 20), (-520.530596967, 14.343145751), (-514.873742718, 12))
            Line((-514.873742718, 12), (-491.212377379, 12))
            ThreePointArc((-491.212377379, 12), (-489.798163816, 12.585786438), (-489.212377379, 14))
            Line((-489.212377379, 14), (-489.212377379, 20))
            ThreePointArc((-489.212377379, 20), (-489.798163816, 21.414213562), (-491.212377379, 22))
            Line((-491.212377379, 22), (-512.212377379, 22))
            Line((-512.212377379, 22), (-512.212377379, 38))
            Line((-512.212377379, 38), (-491.212377379, 38))
            ThreePointArc((-491.212377379, 38), (-489.798163816, 38.585786438), (-489.212377379, 40))
        make_face()
    extrude(amount=-DODANIE_WYCI_GNI_CIE10_DEPTH)


solid = part.part
